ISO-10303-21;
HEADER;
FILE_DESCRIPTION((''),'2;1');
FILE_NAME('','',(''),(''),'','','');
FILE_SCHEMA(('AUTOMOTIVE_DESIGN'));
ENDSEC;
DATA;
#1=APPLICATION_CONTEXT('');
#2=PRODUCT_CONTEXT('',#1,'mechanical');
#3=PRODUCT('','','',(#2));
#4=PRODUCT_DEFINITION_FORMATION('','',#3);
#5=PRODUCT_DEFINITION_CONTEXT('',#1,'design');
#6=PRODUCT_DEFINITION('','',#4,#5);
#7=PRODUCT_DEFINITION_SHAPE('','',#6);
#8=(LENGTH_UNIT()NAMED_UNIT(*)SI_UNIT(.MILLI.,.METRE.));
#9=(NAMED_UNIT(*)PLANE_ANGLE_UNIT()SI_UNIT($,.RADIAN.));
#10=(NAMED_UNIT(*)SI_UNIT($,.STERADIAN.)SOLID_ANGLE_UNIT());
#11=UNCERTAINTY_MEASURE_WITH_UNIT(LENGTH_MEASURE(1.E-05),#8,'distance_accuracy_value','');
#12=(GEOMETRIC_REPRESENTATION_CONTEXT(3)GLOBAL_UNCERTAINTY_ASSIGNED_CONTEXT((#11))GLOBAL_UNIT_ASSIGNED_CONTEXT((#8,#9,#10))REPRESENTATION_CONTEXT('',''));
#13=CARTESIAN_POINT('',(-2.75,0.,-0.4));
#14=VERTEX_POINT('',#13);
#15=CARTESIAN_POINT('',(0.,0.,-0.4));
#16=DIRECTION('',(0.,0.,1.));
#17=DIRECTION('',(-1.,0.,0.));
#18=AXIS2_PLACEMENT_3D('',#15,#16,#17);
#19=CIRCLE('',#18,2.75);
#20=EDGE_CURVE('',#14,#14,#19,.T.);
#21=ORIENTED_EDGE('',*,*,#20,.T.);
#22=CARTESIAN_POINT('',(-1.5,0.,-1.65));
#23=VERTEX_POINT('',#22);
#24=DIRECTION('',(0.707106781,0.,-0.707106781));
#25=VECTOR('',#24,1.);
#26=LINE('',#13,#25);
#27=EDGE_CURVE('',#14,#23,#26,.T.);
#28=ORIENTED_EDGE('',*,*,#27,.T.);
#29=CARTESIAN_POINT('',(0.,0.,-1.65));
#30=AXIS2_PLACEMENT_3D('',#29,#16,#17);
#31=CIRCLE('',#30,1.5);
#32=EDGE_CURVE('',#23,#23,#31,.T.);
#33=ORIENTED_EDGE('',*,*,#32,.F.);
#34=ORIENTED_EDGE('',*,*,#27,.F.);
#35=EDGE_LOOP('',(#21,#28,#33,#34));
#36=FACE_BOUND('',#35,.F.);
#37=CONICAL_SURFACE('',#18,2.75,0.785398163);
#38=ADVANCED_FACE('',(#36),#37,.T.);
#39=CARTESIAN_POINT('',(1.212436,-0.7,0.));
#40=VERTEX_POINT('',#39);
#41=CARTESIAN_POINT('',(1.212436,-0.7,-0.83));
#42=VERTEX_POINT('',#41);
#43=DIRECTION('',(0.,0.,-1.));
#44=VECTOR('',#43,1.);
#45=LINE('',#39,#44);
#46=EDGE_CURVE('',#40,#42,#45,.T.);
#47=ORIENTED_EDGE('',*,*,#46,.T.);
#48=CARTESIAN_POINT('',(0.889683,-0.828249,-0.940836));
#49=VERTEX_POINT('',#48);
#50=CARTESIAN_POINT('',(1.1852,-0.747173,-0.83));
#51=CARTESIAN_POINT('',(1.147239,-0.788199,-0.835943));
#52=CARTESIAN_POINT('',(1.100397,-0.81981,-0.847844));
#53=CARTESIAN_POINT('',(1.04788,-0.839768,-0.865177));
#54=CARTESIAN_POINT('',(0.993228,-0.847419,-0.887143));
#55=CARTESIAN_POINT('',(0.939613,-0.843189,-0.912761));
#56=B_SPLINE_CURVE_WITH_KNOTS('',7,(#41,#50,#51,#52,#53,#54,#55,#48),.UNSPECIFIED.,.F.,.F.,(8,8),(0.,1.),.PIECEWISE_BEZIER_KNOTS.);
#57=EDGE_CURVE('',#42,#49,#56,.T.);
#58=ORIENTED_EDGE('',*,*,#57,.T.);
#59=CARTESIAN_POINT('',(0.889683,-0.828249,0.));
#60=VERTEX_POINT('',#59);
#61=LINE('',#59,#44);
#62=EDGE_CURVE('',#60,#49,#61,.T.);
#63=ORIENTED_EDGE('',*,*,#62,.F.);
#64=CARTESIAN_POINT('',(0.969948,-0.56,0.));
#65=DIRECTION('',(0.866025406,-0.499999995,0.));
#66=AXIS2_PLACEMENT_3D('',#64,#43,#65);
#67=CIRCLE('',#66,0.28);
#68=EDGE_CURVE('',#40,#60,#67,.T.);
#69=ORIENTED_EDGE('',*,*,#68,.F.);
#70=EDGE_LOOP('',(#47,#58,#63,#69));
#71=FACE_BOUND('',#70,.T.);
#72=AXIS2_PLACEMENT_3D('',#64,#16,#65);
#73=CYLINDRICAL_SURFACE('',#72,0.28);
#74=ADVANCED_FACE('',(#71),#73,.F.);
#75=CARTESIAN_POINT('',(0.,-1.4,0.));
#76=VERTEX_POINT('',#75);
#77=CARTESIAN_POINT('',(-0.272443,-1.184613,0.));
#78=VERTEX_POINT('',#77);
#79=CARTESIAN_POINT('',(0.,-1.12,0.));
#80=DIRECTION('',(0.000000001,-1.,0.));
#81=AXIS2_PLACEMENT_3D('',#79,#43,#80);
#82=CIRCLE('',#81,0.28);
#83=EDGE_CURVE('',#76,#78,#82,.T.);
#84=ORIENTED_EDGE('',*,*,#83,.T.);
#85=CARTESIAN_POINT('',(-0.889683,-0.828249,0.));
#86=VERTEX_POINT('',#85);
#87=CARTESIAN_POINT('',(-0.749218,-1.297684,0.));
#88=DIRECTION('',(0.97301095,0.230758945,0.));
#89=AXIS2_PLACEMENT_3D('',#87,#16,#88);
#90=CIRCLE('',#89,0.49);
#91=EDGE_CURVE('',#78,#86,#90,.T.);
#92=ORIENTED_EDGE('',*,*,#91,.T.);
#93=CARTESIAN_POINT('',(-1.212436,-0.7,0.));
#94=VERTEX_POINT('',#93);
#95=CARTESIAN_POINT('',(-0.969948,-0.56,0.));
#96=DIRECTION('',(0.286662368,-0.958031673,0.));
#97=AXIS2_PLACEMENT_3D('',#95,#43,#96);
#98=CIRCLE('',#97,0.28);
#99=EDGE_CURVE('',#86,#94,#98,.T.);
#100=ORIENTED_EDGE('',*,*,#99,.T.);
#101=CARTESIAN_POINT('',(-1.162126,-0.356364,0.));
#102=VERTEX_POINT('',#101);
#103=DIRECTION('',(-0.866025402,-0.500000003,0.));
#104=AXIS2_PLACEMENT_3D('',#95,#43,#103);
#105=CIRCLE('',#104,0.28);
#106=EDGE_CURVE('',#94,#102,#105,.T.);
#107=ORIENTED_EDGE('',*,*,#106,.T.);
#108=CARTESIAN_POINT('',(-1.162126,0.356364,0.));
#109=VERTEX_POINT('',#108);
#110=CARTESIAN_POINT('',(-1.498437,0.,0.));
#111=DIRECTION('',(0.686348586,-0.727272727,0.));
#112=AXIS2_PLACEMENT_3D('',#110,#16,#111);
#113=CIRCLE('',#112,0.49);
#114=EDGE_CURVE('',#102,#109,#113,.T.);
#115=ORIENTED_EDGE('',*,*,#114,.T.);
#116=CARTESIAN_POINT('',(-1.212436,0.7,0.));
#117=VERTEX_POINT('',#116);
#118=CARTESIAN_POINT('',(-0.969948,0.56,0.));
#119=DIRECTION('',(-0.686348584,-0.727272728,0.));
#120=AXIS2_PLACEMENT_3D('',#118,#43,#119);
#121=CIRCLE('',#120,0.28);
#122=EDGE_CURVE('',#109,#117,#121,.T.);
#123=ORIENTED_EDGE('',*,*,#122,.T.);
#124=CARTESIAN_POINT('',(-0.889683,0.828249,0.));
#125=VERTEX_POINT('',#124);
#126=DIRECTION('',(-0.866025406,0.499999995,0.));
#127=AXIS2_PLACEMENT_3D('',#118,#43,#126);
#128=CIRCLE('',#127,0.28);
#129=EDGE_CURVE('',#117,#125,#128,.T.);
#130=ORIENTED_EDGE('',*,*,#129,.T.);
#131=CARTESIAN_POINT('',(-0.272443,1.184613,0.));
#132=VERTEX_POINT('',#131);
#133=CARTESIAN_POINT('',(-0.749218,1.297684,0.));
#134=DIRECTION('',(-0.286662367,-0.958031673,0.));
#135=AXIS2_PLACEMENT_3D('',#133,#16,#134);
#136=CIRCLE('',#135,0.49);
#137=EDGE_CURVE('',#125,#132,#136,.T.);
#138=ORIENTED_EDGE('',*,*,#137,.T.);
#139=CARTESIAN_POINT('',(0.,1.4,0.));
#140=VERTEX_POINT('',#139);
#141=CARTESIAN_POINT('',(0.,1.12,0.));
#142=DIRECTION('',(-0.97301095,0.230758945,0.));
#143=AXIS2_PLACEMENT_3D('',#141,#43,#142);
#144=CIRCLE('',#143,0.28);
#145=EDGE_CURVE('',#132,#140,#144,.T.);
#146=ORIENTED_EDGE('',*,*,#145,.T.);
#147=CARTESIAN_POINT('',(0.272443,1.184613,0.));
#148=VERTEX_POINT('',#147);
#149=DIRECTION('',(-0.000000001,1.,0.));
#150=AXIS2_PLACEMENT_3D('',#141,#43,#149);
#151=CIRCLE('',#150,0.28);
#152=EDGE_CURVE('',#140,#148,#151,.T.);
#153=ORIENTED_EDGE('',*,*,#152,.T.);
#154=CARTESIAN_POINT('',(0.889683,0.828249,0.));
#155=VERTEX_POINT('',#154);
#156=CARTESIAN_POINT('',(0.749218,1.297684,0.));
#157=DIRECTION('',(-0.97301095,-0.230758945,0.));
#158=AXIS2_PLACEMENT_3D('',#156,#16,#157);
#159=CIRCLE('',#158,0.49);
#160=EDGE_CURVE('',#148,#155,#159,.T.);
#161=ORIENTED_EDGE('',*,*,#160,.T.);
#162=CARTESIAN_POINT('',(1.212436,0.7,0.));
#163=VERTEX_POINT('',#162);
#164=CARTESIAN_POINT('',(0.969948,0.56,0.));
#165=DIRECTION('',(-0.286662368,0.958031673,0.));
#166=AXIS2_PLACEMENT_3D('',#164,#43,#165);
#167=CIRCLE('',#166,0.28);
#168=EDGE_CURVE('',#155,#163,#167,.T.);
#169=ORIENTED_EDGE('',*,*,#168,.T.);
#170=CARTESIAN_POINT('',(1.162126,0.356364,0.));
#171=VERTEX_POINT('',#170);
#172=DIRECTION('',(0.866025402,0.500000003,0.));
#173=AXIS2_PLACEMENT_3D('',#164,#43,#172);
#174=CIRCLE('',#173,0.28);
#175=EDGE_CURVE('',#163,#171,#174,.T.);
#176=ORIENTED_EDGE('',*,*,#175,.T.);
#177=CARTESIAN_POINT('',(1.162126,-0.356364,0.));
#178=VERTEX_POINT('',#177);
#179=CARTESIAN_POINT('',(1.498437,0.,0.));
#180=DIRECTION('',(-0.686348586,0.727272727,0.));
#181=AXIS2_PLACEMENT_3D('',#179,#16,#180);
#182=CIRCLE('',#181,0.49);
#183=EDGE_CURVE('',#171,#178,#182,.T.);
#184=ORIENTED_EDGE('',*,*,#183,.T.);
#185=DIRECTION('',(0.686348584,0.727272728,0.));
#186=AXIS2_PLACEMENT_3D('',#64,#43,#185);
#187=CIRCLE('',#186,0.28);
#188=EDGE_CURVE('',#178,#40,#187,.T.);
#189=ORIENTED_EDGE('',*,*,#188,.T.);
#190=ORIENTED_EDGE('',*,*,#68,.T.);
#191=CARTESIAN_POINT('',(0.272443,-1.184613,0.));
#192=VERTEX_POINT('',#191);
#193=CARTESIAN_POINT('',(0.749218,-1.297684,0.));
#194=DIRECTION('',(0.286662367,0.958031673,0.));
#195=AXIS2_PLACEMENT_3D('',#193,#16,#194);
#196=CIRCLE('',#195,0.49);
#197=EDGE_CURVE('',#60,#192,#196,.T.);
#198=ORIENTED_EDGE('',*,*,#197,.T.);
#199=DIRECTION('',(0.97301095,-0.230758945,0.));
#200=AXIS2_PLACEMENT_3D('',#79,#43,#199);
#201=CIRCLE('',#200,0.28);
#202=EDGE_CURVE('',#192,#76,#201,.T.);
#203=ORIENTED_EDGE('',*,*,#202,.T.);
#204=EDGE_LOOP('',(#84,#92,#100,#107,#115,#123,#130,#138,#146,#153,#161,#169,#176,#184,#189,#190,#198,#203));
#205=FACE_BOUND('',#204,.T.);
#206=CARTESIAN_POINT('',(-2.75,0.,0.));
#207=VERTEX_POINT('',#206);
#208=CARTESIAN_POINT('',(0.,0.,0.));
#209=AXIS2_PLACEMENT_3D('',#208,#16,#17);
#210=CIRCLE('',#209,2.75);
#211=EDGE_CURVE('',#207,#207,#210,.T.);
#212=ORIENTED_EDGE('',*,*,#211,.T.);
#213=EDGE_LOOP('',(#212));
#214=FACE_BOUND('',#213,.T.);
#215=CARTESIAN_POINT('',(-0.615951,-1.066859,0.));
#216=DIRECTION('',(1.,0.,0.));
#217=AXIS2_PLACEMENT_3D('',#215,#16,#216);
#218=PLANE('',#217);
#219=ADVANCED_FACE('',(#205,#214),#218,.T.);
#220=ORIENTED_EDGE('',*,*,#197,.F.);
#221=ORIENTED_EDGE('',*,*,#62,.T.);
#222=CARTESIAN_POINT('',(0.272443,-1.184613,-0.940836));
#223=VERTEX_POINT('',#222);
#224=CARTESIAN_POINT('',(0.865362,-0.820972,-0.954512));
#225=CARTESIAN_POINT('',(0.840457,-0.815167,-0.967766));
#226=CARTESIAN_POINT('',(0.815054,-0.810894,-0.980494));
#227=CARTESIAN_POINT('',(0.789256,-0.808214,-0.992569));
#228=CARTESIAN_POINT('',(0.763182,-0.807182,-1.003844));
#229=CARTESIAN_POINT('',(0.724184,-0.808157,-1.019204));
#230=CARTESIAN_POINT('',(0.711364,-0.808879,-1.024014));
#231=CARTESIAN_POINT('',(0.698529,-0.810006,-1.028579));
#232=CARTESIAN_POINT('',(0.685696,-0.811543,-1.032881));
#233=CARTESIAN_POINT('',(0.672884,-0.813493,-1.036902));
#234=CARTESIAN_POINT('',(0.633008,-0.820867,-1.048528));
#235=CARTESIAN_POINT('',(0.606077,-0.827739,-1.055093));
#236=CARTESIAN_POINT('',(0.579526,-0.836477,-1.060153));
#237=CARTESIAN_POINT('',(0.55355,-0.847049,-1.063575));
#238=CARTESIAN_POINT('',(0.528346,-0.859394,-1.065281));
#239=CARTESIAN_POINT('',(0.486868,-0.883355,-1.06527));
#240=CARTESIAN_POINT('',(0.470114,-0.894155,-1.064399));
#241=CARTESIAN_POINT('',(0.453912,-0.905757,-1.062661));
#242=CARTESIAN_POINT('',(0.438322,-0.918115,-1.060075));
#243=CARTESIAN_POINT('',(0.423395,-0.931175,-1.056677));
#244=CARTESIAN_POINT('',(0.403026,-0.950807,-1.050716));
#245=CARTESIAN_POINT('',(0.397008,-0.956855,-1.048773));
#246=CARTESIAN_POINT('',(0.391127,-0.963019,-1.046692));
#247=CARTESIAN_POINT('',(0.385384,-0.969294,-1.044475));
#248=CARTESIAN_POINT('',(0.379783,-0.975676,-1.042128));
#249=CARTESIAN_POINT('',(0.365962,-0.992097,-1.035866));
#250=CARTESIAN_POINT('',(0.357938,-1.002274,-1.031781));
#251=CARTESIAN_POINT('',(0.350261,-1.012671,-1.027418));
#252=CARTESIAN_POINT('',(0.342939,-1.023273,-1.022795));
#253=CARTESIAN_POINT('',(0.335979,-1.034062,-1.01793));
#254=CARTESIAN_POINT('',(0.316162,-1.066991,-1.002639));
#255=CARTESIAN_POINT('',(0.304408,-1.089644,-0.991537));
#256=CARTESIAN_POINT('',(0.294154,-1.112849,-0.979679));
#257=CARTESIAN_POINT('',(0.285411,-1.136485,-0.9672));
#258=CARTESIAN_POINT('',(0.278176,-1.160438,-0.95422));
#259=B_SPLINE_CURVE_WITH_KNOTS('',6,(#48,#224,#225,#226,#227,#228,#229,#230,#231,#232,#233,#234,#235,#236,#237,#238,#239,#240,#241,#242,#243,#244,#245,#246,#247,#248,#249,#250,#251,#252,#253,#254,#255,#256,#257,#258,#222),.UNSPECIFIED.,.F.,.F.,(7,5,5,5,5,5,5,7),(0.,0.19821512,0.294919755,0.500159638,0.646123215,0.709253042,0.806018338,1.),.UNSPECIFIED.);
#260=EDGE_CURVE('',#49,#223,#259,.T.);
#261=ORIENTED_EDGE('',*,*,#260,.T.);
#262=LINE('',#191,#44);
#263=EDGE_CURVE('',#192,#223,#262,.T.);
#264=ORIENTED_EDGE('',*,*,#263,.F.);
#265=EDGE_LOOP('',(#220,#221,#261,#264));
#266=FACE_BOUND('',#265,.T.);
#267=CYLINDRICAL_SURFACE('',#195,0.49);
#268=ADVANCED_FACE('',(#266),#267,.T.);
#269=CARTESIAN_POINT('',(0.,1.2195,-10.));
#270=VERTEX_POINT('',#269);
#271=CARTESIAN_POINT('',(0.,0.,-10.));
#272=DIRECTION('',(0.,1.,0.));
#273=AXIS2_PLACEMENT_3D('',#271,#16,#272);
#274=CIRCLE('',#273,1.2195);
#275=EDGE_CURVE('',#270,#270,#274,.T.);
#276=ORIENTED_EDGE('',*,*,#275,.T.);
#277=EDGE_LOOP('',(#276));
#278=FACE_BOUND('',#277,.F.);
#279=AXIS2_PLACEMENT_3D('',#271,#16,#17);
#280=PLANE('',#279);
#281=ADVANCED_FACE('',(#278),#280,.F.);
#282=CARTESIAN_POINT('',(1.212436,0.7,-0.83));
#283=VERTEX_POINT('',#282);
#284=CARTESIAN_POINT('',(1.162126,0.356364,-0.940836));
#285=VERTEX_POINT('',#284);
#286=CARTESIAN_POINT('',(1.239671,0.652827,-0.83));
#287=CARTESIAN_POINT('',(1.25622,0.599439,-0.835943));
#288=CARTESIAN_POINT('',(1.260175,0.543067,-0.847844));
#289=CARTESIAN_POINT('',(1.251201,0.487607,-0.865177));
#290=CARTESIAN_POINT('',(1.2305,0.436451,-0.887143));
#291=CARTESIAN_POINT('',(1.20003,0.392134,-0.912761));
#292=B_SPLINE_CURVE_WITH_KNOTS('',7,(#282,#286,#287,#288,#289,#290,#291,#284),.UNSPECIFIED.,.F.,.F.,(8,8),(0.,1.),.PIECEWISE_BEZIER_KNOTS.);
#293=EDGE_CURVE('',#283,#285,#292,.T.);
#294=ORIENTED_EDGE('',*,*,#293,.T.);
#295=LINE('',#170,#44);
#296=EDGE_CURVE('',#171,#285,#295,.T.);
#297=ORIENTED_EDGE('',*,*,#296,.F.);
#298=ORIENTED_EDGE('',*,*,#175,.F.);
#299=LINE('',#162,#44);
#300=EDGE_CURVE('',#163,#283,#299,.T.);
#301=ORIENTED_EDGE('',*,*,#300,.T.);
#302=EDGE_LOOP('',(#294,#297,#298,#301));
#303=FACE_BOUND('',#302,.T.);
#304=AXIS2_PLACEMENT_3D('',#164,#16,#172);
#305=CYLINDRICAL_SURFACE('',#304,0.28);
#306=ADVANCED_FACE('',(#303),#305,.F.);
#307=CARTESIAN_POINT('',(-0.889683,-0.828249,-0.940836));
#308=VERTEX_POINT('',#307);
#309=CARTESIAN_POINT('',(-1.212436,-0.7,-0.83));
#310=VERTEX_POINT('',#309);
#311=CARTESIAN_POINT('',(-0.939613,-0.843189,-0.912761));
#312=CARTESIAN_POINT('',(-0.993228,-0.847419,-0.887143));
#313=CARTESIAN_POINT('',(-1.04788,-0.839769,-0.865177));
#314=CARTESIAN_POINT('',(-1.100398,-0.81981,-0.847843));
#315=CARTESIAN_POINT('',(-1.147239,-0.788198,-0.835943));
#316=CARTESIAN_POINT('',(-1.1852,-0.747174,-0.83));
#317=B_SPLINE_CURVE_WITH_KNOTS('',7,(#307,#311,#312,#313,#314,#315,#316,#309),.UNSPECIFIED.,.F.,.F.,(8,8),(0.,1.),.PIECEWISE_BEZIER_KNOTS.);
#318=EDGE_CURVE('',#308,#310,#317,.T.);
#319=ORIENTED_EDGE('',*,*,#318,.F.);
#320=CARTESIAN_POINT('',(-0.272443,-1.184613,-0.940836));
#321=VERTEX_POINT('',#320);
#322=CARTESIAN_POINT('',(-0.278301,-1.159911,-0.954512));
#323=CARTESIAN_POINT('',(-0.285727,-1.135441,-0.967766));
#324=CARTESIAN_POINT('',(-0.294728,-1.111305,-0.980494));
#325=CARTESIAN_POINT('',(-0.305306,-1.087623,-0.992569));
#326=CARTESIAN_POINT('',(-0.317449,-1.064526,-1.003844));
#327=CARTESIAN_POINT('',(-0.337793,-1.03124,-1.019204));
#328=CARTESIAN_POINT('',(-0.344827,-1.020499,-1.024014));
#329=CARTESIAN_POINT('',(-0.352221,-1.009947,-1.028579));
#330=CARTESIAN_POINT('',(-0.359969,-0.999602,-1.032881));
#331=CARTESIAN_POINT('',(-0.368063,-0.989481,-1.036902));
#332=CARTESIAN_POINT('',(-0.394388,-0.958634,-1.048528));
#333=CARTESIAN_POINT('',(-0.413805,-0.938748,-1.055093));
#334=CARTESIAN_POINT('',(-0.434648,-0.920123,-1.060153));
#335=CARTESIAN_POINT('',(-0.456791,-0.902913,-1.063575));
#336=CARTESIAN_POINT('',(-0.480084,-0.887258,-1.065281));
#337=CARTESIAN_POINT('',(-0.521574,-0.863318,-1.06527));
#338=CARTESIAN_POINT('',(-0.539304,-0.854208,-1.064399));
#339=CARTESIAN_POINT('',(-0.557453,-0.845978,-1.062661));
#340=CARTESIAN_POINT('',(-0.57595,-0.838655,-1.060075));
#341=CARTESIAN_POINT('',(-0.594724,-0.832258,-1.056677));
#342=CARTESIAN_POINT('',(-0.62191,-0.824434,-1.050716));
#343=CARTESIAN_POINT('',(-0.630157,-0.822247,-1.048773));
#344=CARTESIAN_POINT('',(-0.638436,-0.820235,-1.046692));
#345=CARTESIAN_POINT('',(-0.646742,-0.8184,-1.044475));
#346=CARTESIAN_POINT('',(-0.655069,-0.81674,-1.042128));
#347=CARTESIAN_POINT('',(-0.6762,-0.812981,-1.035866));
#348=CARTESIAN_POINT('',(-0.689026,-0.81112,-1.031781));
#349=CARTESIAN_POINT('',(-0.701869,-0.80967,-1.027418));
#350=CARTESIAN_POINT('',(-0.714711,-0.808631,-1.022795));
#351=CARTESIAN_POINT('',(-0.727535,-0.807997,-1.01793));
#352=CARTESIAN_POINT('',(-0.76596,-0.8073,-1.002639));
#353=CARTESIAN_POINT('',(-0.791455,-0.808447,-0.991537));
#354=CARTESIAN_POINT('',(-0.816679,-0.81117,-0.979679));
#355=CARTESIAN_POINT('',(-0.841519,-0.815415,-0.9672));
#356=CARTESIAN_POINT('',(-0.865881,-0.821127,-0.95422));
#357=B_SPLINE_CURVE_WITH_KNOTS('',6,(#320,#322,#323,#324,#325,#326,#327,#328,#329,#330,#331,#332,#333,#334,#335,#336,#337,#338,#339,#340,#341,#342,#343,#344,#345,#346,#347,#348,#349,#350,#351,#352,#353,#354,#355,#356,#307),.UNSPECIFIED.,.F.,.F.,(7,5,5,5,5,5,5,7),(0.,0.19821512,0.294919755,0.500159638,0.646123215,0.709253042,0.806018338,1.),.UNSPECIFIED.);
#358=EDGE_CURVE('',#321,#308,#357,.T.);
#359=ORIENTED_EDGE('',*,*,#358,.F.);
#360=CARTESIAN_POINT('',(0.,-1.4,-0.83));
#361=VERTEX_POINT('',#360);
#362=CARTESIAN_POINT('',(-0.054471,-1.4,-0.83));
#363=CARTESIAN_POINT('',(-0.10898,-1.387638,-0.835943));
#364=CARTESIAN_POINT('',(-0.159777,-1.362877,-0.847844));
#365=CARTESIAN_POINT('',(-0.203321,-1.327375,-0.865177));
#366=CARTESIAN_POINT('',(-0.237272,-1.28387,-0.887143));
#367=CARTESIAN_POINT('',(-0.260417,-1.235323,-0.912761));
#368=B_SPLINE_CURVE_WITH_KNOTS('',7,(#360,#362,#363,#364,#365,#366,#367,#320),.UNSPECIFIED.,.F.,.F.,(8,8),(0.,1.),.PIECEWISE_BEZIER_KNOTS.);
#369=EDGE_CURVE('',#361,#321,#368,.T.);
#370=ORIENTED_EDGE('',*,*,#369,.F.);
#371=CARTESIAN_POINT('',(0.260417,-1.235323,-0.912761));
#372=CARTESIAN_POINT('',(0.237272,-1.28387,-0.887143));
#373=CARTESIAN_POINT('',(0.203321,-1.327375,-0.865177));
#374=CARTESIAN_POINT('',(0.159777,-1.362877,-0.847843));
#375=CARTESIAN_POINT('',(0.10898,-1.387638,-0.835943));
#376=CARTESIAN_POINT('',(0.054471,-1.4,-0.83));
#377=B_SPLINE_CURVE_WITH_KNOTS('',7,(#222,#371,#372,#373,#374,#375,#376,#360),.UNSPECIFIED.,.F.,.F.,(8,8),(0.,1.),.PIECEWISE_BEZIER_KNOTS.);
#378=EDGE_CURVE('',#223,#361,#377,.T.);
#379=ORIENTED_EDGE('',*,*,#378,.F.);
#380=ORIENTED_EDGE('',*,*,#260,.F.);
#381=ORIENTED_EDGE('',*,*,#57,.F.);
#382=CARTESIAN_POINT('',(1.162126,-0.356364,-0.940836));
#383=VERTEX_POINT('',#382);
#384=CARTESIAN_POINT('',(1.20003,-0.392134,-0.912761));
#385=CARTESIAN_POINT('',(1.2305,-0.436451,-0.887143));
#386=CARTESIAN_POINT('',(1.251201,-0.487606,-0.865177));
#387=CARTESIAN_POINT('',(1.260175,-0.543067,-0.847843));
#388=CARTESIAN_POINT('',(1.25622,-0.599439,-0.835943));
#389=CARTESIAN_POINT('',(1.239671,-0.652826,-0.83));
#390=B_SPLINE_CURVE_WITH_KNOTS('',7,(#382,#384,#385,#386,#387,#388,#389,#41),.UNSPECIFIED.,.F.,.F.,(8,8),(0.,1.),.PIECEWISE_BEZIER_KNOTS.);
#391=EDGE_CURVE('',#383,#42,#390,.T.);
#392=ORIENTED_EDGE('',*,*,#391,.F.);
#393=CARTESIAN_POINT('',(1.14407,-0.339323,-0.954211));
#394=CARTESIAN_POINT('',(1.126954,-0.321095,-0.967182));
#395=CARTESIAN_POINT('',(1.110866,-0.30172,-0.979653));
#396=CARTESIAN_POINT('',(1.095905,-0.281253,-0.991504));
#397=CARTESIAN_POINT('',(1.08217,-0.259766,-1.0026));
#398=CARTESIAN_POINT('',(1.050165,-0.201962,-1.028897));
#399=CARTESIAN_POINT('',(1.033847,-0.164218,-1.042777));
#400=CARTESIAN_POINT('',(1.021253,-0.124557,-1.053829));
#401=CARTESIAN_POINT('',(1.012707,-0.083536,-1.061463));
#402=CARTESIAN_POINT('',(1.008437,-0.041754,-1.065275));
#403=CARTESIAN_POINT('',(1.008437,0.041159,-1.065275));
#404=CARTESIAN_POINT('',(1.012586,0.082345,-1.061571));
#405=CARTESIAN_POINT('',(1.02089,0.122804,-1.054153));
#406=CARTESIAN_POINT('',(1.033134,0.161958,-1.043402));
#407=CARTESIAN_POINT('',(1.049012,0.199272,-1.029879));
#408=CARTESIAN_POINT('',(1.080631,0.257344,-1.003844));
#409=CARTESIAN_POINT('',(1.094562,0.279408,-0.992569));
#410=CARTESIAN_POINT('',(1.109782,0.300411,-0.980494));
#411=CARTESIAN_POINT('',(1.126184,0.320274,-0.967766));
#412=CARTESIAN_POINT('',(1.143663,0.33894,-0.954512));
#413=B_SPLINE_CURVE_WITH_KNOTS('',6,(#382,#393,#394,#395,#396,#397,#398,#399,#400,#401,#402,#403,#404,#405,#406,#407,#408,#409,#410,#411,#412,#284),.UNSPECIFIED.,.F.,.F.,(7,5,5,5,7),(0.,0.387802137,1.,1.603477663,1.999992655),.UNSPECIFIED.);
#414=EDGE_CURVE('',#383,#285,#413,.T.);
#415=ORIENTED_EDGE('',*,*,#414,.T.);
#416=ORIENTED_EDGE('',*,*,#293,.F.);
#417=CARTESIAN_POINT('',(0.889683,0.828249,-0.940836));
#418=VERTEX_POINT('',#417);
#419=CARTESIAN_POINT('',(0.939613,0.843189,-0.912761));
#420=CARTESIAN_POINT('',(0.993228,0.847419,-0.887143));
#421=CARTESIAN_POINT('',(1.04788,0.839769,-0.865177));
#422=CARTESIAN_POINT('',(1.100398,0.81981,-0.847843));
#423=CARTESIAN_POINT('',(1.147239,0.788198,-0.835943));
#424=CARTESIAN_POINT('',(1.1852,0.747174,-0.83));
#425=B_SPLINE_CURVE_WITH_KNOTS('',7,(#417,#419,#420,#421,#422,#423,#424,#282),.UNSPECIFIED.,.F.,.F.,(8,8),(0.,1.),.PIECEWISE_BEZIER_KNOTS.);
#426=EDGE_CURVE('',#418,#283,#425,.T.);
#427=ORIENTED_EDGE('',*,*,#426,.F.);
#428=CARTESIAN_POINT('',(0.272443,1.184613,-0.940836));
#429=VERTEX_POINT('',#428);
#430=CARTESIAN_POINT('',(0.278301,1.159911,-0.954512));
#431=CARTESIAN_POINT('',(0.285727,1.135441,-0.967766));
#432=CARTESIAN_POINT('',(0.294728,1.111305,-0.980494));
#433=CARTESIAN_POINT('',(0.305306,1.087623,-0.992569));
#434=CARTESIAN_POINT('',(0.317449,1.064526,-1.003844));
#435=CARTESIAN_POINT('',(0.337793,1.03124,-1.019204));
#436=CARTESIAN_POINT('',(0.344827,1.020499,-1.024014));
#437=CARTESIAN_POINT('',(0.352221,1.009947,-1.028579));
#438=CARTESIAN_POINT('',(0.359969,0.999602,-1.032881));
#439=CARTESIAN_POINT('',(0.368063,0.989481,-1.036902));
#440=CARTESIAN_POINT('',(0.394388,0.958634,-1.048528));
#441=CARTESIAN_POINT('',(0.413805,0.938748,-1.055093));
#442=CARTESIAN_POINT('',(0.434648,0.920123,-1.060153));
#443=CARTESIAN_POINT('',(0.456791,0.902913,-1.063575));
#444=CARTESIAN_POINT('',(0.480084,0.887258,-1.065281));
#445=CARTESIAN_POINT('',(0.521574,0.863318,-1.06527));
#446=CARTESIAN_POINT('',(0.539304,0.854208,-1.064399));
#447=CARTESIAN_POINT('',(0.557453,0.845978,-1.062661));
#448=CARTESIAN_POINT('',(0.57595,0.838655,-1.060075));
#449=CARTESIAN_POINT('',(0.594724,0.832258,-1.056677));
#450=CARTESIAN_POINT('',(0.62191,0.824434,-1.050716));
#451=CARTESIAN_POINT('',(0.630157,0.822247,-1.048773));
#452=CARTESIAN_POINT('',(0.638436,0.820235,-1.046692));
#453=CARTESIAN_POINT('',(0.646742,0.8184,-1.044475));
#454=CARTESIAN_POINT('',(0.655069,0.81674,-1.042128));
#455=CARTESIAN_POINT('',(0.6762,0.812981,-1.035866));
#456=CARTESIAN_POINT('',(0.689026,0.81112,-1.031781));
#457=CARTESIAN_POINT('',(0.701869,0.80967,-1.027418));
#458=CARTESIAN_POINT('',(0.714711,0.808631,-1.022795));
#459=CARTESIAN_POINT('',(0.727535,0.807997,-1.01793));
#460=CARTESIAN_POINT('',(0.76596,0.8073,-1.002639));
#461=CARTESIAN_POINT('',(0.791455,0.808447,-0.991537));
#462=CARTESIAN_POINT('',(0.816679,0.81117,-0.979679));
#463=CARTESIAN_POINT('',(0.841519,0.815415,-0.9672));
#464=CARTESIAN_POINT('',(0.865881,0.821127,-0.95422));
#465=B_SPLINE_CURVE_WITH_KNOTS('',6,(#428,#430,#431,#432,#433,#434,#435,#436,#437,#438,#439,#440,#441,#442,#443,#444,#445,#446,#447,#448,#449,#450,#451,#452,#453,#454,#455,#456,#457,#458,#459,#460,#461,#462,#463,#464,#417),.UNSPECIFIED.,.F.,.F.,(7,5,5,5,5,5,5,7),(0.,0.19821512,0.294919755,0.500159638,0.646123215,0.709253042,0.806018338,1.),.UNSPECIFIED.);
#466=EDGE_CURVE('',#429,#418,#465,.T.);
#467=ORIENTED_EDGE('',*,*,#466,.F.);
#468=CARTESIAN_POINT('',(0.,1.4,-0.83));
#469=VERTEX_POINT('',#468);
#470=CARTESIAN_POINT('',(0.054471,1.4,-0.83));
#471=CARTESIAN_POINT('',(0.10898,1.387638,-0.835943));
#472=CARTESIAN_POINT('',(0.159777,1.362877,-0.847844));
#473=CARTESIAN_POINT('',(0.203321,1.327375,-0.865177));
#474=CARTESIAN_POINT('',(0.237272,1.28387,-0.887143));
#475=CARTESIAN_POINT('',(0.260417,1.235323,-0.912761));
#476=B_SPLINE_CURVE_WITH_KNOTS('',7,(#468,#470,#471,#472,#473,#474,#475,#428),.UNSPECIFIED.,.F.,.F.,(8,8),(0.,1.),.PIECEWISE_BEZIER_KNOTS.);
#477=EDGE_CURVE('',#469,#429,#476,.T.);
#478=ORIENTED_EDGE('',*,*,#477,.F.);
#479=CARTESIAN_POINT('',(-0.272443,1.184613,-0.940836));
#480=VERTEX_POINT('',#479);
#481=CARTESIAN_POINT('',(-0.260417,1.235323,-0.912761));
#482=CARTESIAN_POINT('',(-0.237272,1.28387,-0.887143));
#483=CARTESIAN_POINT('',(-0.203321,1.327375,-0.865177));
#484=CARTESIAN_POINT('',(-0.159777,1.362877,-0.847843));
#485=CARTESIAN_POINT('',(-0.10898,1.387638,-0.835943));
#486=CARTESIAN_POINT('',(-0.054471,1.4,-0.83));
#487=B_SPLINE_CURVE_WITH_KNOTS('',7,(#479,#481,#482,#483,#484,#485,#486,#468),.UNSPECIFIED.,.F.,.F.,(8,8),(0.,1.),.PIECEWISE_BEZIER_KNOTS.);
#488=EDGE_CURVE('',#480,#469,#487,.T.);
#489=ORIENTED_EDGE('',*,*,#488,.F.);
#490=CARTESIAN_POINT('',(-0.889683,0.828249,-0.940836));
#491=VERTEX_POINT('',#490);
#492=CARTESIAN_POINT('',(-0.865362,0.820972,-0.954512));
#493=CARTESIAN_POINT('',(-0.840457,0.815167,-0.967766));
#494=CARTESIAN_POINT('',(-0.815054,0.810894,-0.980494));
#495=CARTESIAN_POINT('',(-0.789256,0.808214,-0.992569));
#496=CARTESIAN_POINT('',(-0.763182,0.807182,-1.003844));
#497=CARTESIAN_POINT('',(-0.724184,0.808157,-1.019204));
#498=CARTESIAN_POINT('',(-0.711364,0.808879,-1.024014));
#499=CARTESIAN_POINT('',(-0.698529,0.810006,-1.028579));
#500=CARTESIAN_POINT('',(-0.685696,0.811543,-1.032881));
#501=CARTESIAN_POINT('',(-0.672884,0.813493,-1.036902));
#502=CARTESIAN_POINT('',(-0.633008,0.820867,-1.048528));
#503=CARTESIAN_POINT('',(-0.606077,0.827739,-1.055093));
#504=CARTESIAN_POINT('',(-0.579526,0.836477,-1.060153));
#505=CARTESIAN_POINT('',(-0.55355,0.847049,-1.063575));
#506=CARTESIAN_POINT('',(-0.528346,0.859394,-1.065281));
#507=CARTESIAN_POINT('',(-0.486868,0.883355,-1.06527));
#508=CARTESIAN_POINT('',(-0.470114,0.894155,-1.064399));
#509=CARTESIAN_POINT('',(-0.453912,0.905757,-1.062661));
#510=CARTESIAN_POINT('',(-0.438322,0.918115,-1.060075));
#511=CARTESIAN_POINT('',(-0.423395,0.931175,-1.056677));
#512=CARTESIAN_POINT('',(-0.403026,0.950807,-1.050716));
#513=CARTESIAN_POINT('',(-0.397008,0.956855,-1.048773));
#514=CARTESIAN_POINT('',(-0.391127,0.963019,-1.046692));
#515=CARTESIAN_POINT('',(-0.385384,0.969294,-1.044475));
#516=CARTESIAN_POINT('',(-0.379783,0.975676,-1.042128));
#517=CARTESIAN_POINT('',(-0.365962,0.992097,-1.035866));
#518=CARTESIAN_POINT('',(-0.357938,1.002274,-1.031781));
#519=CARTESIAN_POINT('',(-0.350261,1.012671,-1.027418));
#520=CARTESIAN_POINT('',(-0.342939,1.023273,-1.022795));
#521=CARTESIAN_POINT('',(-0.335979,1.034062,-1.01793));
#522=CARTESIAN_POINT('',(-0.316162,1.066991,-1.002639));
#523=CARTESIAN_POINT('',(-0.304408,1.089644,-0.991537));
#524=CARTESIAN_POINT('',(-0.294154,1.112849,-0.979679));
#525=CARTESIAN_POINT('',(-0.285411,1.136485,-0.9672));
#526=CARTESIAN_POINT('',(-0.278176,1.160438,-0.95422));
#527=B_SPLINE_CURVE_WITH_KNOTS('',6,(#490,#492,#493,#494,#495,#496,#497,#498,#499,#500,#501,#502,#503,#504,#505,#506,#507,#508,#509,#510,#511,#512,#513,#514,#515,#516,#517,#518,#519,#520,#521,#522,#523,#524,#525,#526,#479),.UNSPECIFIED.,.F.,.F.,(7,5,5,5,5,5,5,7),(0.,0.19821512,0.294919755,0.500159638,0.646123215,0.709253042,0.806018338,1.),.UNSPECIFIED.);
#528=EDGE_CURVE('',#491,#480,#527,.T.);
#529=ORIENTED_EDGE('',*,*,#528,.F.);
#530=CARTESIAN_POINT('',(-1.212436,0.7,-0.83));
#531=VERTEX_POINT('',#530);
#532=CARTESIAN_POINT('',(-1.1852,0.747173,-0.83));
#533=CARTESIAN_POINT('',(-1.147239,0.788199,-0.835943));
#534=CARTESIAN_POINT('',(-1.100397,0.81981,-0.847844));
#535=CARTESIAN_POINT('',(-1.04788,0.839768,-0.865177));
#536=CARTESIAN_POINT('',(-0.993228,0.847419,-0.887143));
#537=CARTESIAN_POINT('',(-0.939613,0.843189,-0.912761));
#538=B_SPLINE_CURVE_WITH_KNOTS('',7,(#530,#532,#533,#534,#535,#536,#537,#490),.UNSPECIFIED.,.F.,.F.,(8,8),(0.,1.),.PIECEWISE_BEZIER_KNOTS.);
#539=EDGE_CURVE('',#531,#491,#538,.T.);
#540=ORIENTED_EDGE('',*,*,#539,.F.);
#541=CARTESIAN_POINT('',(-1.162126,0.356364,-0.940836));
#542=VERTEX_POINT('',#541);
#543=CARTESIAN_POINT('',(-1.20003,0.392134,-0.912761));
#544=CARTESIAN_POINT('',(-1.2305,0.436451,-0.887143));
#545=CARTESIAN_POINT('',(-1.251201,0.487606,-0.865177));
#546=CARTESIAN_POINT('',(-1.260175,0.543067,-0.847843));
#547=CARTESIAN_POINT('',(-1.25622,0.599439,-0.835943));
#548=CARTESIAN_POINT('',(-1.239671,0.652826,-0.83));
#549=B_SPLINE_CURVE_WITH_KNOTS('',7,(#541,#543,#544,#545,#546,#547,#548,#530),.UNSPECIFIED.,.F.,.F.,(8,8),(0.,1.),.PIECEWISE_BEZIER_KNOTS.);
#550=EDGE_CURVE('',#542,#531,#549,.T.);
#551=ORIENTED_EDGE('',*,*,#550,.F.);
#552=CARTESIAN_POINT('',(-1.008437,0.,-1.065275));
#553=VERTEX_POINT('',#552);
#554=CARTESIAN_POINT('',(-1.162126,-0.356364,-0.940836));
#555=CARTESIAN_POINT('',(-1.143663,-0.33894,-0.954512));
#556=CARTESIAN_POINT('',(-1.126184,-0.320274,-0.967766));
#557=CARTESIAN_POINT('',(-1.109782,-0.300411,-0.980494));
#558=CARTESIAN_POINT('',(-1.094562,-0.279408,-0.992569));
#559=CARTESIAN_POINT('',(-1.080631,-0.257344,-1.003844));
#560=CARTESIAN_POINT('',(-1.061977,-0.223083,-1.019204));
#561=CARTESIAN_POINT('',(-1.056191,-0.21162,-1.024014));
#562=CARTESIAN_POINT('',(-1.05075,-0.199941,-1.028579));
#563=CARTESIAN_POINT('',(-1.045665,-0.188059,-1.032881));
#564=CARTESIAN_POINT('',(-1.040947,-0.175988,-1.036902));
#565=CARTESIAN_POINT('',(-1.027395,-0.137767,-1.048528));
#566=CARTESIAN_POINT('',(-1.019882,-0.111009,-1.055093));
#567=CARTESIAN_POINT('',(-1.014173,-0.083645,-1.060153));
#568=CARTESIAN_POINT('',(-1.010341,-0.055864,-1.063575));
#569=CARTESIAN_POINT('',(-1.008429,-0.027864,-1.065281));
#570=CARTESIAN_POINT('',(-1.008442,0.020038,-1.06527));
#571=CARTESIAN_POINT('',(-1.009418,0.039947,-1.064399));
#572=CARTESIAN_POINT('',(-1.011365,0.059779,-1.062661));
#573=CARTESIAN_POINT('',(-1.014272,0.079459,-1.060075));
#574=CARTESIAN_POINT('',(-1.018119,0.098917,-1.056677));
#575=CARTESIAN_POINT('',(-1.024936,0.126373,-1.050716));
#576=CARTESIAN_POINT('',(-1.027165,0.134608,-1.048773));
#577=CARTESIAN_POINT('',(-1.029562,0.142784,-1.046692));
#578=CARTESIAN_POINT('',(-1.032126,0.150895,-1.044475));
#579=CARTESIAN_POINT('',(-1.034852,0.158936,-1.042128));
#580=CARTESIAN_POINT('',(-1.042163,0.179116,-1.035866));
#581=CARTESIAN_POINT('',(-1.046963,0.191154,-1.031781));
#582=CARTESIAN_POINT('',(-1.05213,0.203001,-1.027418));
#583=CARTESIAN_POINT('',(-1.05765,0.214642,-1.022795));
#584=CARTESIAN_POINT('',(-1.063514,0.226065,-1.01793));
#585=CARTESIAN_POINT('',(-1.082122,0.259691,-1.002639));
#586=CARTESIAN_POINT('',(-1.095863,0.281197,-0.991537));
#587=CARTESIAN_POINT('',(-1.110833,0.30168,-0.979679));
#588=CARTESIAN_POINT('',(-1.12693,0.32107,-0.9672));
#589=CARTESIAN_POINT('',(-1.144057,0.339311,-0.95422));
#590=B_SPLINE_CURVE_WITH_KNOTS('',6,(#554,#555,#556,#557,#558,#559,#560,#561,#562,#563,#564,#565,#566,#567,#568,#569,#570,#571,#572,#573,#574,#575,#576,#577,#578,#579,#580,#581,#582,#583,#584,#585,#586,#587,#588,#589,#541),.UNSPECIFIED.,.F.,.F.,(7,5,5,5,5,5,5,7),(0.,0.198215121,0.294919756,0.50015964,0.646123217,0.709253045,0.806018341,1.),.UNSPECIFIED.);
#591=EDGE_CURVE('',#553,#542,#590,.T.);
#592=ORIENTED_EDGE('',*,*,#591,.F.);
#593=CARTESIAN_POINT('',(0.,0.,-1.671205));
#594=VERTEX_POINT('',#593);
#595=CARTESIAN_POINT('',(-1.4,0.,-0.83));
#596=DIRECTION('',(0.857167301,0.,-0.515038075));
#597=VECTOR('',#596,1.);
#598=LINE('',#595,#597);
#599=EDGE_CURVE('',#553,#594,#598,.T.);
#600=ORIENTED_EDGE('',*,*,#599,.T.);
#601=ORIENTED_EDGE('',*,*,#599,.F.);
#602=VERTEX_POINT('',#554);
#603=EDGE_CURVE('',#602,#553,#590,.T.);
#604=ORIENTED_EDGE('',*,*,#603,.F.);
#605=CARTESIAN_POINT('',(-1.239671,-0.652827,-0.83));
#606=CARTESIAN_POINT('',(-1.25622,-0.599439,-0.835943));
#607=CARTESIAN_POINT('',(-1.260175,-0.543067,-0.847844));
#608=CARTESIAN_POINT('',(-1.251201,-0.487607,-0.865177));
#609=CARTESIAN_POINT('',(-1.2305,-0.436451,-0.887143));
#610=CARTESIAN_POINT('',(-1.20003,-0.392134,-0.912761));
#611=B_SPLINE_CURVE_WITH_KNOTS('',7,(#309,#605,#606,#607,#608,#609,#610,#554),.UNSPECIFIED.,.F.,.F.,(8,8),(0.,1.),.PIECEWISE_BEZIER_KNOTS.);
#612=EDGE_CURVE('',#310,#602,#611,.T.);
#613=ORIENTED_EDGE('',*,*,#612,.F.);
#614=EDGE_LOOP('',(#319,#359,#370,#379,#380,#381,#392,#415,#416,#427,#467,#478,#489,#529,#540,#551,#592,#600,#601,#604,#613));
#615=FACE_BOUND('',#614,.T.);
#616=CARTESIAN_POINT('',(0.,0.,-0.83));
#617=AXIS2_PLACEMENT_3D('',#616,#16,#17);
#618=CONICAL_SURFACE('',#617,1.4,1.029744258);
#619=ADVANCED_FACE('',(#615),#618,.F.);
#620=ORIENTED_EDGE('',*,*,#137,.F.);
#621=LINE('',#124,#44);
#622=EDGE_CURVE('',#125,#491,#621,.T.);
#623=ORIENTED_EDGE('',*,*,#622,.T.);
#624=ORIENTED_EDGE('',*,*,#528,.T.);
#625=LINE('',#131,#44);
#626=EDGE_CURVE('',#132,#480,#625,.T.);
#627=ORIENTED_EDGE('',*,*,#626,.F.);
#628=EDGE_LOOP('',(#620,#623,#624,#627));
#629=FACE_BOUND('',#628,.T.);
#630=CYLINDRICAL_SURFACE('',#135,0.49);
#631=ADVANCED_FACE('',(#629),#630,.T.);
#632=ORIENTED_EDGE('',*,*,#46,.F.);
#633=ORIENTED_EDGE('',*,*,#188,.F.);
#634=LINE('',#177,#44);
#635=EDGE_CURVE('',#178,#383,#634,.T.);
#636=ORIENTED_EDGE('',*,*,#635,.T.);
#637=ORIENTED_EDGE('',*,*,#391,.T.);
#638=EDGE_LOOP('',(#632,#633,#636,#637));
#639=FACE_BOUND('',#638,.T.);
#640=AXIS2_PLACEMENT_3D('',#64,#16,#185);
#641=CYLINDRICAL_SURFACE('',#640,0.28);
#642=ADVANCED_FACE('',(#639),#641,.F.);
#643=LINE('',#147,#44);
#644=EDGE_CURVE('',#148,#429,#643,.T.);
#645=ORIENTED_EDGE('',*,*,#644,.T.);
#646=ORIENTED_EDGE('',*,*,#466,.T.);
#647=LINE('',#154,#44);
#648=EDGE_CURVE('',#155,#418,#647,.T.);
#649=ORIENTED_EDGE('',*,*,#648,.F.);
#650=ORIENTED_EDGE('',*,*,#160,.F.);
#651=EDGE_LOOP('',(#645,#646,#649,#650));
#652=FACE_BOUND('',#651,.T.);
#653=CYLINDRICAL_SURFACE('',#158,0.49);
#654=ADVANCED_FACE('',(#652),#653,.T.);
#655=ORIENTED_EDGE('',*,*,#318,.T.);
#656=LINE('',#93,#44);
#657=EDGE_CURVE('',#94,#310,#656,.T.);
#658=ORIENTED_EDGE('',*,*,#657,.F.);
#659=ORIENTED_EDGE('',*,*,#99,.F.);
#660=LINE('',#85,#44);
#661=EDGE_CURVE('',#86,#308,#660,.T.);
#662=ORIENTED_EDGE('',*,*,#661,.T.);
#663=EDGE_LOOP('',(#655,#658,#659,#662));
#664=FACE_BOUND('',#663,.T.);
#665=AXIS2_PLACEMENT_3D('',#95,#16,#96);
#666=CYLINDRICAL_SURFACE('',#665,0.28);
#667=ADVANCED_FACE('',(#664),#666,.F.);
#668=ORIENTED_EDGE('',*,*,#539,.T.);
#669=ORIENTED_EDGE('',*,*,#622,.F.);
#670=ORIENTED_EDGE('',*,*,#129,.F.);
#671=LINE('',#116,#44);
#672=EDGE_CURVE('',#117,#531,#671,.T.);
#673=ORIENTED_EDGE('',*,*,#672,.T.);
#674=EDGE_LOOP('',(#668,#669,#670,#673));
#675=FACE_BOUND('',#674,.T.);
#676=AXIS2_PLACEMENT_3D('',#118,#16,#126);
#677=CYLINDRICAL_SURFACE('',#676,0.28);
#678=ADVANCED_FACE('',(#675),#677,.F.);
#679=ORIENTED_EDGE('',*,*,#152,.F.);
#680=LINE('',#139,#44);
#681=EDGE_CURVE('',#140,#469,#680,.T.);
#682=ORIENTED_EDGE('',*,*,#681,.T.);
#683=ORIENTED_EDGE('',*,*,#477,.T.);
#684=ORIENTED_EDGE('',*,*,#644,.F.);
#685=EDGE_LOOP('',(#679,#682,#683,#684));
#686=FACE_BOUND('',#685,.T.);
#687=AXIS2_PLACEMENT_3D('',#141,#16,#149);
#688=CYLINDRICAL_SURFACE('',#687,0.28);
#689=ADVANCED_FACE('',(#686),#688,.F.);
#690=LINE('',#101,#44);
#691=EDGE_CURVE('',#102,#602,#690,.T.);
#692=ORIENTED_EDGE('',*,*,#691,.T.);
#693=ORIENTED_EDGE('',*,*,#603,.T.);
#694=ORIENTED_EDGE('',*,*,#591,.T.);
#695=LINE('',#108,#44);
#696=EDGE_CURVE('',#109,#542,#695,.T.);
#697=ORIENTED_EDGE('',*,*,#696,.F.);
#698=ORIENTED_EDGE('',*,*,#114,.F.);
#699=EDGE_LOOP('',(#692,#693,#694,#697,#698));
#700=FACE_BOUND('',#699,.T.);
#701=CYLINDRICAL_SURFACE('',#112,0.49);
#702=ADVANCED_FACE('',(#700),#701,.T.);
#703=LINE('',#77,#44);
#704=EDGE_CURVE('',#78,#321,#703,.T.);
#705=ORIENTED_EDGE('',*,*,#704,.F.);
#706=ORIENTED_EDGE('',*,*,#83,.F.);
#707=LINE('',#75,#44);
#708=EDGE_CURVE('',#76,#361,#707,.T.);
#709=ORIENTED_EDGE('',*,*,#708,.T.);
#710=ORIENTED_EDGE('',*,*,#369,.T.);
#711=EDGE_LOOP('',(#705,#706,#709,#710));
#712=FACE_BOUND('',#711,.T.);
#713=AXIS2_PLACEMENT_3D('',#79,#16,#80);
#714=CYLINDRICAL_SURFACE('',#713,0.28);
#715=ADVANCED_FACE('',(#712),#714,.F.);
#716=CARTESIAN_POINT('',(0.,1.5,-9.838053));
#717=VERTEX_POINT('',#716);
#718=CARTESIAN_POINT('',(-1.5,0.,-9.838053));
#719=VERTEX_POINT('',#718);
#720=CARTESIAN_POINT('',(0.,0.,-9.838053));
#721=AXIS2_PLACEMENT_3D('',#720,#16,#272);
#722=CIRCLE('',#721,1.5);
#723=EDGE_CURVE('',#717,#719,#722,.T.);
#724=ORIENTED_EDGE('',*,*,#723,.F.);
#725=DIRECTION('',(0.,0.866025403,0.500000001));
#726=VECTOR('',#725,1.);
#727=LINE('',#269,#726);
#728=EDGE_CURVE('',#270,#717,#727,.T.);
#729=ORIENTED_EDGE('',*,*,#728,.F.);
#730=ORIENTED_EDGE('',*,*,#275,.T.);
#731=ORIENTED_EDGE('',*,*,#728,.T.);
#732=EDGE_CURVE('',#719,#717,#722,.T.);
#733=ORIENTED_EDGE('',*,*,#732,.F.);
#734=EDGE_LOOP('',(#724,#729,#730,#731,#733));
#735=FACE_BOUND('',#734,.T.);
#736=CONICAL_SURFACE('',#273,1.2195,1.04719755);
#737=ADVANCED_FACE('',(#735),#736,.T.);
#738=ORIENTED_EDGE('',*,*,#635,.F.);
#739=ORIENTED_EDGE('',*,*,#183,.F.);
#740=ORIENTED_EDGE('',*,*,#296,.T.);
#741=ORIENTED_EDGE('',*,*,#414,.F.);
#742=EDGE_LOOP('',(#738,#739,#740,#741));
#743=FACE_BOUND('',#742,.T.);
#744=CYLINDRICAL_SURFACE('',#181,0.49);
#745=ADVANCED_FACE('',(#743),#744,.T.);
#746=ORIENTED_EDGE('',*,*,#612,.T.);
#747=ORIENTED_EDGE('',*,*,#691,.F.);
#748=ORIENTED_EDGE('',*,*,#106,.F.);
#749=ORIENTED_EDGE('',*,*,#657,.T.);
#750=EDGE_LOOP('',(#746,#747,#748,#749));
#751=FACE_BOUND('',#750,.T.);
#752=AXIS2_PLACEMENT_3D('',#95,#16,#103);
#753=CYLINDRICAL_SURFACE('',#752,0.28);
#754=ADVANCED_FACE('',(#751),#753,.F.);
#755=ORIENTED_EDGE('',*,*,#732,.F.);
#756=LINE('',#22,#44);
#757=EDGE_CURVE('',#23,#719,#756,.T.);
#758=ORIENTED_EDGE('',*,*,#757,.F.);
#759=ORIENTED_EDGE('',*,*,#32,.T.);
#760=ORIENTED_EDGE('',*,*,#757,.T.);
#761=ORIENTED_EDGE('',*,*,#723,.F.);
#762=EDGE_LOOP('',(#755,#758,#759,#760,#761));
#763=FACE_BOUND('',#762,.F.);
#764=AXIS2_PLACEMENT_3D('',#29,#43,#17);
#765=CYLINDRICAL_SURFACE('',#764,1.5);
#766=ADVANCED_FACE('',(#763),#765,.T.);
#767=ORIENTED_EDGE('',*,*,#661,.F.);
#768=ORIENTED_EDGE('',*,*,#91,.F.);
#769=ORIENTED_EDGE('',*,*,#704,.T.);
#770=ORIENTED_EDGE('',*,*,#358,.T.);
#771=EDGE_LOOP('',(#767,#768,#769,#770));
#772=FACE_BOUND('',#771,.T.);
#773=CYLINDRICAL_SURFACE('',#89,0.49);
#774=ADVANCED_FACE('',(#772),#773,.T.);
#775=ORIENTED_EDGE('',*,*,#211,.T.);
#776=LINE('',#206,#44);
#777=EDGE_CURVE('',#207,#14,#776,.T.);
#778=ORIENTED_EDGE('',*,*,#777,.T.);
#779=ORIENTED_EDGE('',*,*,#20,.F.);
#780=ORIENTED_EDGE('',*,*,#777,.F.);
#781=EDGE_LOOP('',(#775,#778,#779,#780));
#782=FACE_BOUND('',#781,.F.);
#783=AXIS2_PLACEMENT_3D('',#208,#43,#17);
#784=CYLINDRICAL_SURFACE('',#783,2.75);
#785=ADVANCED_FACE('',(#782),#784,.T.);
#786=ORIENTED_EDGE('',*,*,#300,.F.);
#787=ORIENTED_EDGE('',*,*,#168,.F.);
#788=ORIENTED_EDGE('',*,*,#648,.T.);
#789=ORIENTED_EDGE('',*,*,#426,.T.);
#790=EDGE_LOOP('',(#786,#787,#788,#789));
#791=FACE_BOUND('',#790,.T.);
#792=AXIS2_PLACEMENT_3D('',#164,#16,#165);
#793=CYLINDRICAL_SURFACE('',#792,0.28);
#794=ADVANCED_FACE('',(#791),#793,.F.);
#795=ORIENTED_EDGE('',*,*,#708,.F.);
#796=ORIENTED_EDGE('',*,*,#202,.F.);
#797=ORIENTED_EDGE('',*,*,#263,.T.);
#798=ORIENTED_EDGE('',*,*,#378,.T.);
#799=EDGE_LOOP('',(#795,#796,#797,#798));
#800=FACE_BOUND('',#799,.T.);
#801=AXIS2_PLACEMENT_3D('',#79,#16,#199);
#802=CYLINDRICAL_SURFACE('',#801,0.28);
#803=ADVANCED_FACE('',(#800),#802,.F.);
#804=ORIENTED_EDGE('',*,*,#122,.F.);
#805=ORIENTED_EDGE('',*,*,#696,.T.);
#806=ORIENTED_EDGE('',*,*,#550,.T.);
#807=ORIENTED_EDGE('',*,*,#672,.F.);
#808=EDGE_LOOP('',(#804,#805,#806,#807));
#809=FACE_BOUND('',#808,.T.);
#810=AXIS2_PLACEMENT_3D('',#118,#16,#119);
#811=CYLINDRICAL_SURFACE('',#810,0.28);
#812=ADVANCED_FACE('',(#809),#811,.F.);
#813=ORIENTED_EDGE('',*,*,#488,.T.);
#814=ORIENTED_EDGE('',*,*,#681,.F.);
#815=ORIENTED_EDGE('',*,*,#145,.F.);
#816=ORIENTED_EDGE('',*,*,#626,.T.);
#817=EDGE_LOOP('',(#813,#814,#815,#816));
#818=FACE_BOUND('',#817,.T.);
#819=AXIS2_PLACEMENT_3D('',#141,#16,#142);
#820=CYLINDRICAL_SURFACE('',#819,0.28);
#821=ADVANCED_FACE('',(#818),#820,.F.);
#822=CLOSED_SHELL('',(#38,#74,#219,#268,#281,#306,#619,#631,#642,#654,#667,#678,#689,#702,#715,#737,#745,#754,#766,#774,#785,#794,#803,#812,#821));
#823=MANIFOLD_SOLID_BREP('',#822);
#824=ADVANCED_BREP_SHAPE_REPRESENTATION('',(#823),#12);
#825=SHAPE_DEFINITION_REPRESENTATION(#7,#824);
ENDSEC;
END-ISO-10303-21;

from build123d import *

# Parameters (mm, degrees)
HEXALOBULAR_REACH = 12.73


with BuildPart() as part:
    # BodySke → Base-Revolve (revolve)
    with BuildSketch(Plane(origin=(0, 0, 0), x_dir=(0, 0, -1), z_dir=(1, 0, 0)), mode=Mode.PRIVATE) as base_revolve_sk:
        Polygon((0, 0), (0, 2.75), (0.4, 2.75), (1.65, 1.5), (10, 1.5), (10, 0), align=None)
    revolve(base_revolve_sk.sketch.rotate(Axis((0, 0, 0), (0, 0, 1)), 90), axis=Axis((0, 0, 0), (0, 0, 1)))

    # PreBSke → PreBroach (revolve, cut)
    with BuildSketch(Plane(origin=(0, 0, 0), x_dir=(0, 0, -1), z_dir=(1, 0, 0)), mode=Mode.PRIVATE) as prebroach_sk:
        Polygon((0, 0), (0, 1.4), (0.83, 1.4), (1.671204867, 0), align=None)
    revolve(prebroach_sk.sketch.rotate(Axis((0, 0, 0), (0, 0, 1)), 90), axis=Axis((0, 0, 0), (0, 0, 1)), mode=Mode.SUBTRACT)

    # Hexalobular: up to this cone (the profile starts inside it)
    hexalobular_end = Plane(origin=(0, 0, 0), z_dir=(0, 0, 1)).offset(-1.671203867) * Cone(1.664e-06, 29.428716539, 17.682555837, align=(Align.CENTER, Align.CENTER, Align.MIN), mode=Mode.PRIVATE)
    # HexSke → Hexalobular (add, up to the surface)
    with BuildSketch(Plane.XY, mode=Mode.PRIVATE) as hexalobular_sk1:
        with BuildLine():
            ThreePointArc((-1.212435565, -0.7), (-1.246995094, -0.519439448), (-1.162126056, -0.356363636))
            ThreePointArc((-1.162126056, -0.356363636), (-1.008436863, 0), (-1.162126056, 0.356363636))
            ThreePointArc((-1.162126056, 0.356363636), (-1.246995094, 0.519439448), (-1.212435565, 0.7))
            ThreePointArc((-1.212435565, 0.7), (-1.4, 0), (-1.212435565, -0.7))
        make_face()
    hexalobular_tool1 = extrude(hexalobular_sk1.sketch, amount=-HEXALOBULAR_REACH, mode=Mode.PRIVATE) & hexalobular_end
    add(hexalobular_tool1.solids().sort_by_distance((-1.225792, 0, 0))[0])
    # HexSke → Hexalobular (add, up to the surface)
    with BuildSketch(Plane.XY, mode=Mode.PRIVATE) as hexalobular_sk2:
        with BuildLine():
            ThreePointArc((0, 1.4), (-0.7, 1.212435565), (-1.212435565, 0.7))
            ThreePointArc((-1.212435565, 0.7), (-1.073345305, 0.820209706), (-0.88968299, 0.828248869))
            ThreePointArc((-0.88968299, 0.828248869), (-0.504218431, 0.873331941), (-0.272443066, 1.184612505))
            ThreePointArc((-0.272443066, 1.184612505), (-0.173649789, 1.339649154), (0, 1.4))
        make_face()
    hexalobular_tool2 = extrude(hexalobular_sk2.sketch, amount=-HEXALOBULAR_REACH, mode=Mode.PRIVATE) & hexalobular_end
    add(hexalobular_tool2.solids().sort_by_distance((-0.612896, 1.061567, 0))[0])
    # HexSke → Hexalobular (add, up to the surface)
    with BuildSketch(Plane.XY, mode=Mode.PRIVATE) as hexalobular_sk3:
        with BuildLine():
            ThreePointArc((1.212435565, 0.7), (0.7, 1.212435565), (0, 1.4))
            ThreePointArc((0, 1.4), (0.173649789, 1.339649154), (0.272443066, 1.184612505))
            ThreePointArc((0.272443066, 1.184612505), (0.504218431, 0.873331941), (0.88968299, 0.828248869))
            ThreePointArc((0.88968299, 0.828248869), (1.073345305, 0.820209706), (1.212435565, 0.7))
        make_face()
    hexalobular_tool3 = extrude(hexalobular_sk3.sketch, amount=-HEXALOBULAR_REACH, mode=Mode.PRIVATE) & hexalobular_end
    add(hexalobular_tool3.solids().sort_by_distance((0.612896, 1.061567, 0))[0])
    # HexSke → Hexalobular (add, up to the surface)
    with BuildSketch(Plane.XY, mode=Mode.PRIVATE) as hexalobular_sk4:
        with BuildLine():
            ThreePointArc((1.162126056, -0.356363636), (1.246995094, -0.519439448), (1.212435565, -0.7))
            ThreePointArc((1.212435565, -0.7), (1.352296157, -0.362346663), (1.4, 0))
            ThreePointArc((1.4, 0), (1.352296157, 0.362346663), (1.212435565, 0.7))
            ThreePointArc((1.212435565, 0.7), (1.246995094, 0.519439448), (1.162126056, 0.356363636))
            ThreePointArc((1.162126056, 0.356363636), (1.008436863, 0), (1.162126056, -0.356363636))
        make_face()
    hexalobular_tool4 = extrude(hexalobular_sk4.sketch, amount=-HEXALOBULAR_REACH, mode=Mode.PRIVATE) & hexalobular_end
    add(hexalobular_tool4.solids().sort_by_distance((1.225792, 0, 0))[0])
    # HexSke → Hexalobular (add, up to the surface)
    with BuildSketch(Plane.XY, mode=Mode.PRIVATE) as hexalobular_sk5:
        with BuildLine():
            ThreePointArc((0.272443066, -1.184612505), (0.173649789, -1.339649154), (0, -1.4))
            ThreePointArc((0, -1.4), (0.7, -1.212435565), (1.212435565, -0.7))
            ThreePointArc((1.212435565, -0.7), (1.073345305, -0.820209706), (0.88968299, -0.828248869))
            ThreePointArc((0.88968299, -0.828248869), (0.504218431, -0.873331941), (0.272443066, -1.184612505))
        make_face()
    hexalobular_tool5 = extrude(hexalobular_sk5.sketch, amount=-HEXALOBULAR_REACH, mode=Mode.PRIVATE) & hexalobular_end
    add(hexalobular_tool5.solids().sort_by_distance((0.612896, -1.061567, 0))[0])
    # HexSke → Hexalobular (add, up to the surface)
    with BuildSketch(Plane.XY, mode=Mode.PRIVATE) as hexalobular_sk6:
        with BuildLine():
            ThreePointArc((-0.88968299, -0.828248869), (-1.073345305, -0.820209706), (-1.212435565, -0.7))
            ThreePointArc((-1.212435565, -0.7), (-0.7, -1.212435565), (0, -1.4))
            ThreePointArc((0, -1.4), (-0.173649789, -1.339649154), (-0.272443066, -1.184612505))
            ThreePointArc((-0.272443066, -1.184612505), (-0.504218431, -0.873331941), (-0.88968299, -0.828248869))
        make_face()
    hexalobular_tool6 = extrude(hexalobular_sk6.sketch, amount=-HEXALOBULAR_REACH, mode=Mode.PRIVATE) & hexalobular_end
    add(hexalobular_tool6.solids().sort_by_distance((-0.612896, -1.061567, 0))[0])

    # ThdSchSke → ThreadSchematic (revolve, cut)
    with BuildSketch(Plane(origin=(0, 0, 0), x_dir=(0, 0, -1), z_dir=(1, 0, 0))):
        Polygon((10.161946751, 1.5), (10, 1.2195), (9.838053249, 1.5), align=None)
    revolve(axis=Axis((0, 0, 0), (0, 0, 1)), mode=Mode.SUBTRACT)


solid = part.part
